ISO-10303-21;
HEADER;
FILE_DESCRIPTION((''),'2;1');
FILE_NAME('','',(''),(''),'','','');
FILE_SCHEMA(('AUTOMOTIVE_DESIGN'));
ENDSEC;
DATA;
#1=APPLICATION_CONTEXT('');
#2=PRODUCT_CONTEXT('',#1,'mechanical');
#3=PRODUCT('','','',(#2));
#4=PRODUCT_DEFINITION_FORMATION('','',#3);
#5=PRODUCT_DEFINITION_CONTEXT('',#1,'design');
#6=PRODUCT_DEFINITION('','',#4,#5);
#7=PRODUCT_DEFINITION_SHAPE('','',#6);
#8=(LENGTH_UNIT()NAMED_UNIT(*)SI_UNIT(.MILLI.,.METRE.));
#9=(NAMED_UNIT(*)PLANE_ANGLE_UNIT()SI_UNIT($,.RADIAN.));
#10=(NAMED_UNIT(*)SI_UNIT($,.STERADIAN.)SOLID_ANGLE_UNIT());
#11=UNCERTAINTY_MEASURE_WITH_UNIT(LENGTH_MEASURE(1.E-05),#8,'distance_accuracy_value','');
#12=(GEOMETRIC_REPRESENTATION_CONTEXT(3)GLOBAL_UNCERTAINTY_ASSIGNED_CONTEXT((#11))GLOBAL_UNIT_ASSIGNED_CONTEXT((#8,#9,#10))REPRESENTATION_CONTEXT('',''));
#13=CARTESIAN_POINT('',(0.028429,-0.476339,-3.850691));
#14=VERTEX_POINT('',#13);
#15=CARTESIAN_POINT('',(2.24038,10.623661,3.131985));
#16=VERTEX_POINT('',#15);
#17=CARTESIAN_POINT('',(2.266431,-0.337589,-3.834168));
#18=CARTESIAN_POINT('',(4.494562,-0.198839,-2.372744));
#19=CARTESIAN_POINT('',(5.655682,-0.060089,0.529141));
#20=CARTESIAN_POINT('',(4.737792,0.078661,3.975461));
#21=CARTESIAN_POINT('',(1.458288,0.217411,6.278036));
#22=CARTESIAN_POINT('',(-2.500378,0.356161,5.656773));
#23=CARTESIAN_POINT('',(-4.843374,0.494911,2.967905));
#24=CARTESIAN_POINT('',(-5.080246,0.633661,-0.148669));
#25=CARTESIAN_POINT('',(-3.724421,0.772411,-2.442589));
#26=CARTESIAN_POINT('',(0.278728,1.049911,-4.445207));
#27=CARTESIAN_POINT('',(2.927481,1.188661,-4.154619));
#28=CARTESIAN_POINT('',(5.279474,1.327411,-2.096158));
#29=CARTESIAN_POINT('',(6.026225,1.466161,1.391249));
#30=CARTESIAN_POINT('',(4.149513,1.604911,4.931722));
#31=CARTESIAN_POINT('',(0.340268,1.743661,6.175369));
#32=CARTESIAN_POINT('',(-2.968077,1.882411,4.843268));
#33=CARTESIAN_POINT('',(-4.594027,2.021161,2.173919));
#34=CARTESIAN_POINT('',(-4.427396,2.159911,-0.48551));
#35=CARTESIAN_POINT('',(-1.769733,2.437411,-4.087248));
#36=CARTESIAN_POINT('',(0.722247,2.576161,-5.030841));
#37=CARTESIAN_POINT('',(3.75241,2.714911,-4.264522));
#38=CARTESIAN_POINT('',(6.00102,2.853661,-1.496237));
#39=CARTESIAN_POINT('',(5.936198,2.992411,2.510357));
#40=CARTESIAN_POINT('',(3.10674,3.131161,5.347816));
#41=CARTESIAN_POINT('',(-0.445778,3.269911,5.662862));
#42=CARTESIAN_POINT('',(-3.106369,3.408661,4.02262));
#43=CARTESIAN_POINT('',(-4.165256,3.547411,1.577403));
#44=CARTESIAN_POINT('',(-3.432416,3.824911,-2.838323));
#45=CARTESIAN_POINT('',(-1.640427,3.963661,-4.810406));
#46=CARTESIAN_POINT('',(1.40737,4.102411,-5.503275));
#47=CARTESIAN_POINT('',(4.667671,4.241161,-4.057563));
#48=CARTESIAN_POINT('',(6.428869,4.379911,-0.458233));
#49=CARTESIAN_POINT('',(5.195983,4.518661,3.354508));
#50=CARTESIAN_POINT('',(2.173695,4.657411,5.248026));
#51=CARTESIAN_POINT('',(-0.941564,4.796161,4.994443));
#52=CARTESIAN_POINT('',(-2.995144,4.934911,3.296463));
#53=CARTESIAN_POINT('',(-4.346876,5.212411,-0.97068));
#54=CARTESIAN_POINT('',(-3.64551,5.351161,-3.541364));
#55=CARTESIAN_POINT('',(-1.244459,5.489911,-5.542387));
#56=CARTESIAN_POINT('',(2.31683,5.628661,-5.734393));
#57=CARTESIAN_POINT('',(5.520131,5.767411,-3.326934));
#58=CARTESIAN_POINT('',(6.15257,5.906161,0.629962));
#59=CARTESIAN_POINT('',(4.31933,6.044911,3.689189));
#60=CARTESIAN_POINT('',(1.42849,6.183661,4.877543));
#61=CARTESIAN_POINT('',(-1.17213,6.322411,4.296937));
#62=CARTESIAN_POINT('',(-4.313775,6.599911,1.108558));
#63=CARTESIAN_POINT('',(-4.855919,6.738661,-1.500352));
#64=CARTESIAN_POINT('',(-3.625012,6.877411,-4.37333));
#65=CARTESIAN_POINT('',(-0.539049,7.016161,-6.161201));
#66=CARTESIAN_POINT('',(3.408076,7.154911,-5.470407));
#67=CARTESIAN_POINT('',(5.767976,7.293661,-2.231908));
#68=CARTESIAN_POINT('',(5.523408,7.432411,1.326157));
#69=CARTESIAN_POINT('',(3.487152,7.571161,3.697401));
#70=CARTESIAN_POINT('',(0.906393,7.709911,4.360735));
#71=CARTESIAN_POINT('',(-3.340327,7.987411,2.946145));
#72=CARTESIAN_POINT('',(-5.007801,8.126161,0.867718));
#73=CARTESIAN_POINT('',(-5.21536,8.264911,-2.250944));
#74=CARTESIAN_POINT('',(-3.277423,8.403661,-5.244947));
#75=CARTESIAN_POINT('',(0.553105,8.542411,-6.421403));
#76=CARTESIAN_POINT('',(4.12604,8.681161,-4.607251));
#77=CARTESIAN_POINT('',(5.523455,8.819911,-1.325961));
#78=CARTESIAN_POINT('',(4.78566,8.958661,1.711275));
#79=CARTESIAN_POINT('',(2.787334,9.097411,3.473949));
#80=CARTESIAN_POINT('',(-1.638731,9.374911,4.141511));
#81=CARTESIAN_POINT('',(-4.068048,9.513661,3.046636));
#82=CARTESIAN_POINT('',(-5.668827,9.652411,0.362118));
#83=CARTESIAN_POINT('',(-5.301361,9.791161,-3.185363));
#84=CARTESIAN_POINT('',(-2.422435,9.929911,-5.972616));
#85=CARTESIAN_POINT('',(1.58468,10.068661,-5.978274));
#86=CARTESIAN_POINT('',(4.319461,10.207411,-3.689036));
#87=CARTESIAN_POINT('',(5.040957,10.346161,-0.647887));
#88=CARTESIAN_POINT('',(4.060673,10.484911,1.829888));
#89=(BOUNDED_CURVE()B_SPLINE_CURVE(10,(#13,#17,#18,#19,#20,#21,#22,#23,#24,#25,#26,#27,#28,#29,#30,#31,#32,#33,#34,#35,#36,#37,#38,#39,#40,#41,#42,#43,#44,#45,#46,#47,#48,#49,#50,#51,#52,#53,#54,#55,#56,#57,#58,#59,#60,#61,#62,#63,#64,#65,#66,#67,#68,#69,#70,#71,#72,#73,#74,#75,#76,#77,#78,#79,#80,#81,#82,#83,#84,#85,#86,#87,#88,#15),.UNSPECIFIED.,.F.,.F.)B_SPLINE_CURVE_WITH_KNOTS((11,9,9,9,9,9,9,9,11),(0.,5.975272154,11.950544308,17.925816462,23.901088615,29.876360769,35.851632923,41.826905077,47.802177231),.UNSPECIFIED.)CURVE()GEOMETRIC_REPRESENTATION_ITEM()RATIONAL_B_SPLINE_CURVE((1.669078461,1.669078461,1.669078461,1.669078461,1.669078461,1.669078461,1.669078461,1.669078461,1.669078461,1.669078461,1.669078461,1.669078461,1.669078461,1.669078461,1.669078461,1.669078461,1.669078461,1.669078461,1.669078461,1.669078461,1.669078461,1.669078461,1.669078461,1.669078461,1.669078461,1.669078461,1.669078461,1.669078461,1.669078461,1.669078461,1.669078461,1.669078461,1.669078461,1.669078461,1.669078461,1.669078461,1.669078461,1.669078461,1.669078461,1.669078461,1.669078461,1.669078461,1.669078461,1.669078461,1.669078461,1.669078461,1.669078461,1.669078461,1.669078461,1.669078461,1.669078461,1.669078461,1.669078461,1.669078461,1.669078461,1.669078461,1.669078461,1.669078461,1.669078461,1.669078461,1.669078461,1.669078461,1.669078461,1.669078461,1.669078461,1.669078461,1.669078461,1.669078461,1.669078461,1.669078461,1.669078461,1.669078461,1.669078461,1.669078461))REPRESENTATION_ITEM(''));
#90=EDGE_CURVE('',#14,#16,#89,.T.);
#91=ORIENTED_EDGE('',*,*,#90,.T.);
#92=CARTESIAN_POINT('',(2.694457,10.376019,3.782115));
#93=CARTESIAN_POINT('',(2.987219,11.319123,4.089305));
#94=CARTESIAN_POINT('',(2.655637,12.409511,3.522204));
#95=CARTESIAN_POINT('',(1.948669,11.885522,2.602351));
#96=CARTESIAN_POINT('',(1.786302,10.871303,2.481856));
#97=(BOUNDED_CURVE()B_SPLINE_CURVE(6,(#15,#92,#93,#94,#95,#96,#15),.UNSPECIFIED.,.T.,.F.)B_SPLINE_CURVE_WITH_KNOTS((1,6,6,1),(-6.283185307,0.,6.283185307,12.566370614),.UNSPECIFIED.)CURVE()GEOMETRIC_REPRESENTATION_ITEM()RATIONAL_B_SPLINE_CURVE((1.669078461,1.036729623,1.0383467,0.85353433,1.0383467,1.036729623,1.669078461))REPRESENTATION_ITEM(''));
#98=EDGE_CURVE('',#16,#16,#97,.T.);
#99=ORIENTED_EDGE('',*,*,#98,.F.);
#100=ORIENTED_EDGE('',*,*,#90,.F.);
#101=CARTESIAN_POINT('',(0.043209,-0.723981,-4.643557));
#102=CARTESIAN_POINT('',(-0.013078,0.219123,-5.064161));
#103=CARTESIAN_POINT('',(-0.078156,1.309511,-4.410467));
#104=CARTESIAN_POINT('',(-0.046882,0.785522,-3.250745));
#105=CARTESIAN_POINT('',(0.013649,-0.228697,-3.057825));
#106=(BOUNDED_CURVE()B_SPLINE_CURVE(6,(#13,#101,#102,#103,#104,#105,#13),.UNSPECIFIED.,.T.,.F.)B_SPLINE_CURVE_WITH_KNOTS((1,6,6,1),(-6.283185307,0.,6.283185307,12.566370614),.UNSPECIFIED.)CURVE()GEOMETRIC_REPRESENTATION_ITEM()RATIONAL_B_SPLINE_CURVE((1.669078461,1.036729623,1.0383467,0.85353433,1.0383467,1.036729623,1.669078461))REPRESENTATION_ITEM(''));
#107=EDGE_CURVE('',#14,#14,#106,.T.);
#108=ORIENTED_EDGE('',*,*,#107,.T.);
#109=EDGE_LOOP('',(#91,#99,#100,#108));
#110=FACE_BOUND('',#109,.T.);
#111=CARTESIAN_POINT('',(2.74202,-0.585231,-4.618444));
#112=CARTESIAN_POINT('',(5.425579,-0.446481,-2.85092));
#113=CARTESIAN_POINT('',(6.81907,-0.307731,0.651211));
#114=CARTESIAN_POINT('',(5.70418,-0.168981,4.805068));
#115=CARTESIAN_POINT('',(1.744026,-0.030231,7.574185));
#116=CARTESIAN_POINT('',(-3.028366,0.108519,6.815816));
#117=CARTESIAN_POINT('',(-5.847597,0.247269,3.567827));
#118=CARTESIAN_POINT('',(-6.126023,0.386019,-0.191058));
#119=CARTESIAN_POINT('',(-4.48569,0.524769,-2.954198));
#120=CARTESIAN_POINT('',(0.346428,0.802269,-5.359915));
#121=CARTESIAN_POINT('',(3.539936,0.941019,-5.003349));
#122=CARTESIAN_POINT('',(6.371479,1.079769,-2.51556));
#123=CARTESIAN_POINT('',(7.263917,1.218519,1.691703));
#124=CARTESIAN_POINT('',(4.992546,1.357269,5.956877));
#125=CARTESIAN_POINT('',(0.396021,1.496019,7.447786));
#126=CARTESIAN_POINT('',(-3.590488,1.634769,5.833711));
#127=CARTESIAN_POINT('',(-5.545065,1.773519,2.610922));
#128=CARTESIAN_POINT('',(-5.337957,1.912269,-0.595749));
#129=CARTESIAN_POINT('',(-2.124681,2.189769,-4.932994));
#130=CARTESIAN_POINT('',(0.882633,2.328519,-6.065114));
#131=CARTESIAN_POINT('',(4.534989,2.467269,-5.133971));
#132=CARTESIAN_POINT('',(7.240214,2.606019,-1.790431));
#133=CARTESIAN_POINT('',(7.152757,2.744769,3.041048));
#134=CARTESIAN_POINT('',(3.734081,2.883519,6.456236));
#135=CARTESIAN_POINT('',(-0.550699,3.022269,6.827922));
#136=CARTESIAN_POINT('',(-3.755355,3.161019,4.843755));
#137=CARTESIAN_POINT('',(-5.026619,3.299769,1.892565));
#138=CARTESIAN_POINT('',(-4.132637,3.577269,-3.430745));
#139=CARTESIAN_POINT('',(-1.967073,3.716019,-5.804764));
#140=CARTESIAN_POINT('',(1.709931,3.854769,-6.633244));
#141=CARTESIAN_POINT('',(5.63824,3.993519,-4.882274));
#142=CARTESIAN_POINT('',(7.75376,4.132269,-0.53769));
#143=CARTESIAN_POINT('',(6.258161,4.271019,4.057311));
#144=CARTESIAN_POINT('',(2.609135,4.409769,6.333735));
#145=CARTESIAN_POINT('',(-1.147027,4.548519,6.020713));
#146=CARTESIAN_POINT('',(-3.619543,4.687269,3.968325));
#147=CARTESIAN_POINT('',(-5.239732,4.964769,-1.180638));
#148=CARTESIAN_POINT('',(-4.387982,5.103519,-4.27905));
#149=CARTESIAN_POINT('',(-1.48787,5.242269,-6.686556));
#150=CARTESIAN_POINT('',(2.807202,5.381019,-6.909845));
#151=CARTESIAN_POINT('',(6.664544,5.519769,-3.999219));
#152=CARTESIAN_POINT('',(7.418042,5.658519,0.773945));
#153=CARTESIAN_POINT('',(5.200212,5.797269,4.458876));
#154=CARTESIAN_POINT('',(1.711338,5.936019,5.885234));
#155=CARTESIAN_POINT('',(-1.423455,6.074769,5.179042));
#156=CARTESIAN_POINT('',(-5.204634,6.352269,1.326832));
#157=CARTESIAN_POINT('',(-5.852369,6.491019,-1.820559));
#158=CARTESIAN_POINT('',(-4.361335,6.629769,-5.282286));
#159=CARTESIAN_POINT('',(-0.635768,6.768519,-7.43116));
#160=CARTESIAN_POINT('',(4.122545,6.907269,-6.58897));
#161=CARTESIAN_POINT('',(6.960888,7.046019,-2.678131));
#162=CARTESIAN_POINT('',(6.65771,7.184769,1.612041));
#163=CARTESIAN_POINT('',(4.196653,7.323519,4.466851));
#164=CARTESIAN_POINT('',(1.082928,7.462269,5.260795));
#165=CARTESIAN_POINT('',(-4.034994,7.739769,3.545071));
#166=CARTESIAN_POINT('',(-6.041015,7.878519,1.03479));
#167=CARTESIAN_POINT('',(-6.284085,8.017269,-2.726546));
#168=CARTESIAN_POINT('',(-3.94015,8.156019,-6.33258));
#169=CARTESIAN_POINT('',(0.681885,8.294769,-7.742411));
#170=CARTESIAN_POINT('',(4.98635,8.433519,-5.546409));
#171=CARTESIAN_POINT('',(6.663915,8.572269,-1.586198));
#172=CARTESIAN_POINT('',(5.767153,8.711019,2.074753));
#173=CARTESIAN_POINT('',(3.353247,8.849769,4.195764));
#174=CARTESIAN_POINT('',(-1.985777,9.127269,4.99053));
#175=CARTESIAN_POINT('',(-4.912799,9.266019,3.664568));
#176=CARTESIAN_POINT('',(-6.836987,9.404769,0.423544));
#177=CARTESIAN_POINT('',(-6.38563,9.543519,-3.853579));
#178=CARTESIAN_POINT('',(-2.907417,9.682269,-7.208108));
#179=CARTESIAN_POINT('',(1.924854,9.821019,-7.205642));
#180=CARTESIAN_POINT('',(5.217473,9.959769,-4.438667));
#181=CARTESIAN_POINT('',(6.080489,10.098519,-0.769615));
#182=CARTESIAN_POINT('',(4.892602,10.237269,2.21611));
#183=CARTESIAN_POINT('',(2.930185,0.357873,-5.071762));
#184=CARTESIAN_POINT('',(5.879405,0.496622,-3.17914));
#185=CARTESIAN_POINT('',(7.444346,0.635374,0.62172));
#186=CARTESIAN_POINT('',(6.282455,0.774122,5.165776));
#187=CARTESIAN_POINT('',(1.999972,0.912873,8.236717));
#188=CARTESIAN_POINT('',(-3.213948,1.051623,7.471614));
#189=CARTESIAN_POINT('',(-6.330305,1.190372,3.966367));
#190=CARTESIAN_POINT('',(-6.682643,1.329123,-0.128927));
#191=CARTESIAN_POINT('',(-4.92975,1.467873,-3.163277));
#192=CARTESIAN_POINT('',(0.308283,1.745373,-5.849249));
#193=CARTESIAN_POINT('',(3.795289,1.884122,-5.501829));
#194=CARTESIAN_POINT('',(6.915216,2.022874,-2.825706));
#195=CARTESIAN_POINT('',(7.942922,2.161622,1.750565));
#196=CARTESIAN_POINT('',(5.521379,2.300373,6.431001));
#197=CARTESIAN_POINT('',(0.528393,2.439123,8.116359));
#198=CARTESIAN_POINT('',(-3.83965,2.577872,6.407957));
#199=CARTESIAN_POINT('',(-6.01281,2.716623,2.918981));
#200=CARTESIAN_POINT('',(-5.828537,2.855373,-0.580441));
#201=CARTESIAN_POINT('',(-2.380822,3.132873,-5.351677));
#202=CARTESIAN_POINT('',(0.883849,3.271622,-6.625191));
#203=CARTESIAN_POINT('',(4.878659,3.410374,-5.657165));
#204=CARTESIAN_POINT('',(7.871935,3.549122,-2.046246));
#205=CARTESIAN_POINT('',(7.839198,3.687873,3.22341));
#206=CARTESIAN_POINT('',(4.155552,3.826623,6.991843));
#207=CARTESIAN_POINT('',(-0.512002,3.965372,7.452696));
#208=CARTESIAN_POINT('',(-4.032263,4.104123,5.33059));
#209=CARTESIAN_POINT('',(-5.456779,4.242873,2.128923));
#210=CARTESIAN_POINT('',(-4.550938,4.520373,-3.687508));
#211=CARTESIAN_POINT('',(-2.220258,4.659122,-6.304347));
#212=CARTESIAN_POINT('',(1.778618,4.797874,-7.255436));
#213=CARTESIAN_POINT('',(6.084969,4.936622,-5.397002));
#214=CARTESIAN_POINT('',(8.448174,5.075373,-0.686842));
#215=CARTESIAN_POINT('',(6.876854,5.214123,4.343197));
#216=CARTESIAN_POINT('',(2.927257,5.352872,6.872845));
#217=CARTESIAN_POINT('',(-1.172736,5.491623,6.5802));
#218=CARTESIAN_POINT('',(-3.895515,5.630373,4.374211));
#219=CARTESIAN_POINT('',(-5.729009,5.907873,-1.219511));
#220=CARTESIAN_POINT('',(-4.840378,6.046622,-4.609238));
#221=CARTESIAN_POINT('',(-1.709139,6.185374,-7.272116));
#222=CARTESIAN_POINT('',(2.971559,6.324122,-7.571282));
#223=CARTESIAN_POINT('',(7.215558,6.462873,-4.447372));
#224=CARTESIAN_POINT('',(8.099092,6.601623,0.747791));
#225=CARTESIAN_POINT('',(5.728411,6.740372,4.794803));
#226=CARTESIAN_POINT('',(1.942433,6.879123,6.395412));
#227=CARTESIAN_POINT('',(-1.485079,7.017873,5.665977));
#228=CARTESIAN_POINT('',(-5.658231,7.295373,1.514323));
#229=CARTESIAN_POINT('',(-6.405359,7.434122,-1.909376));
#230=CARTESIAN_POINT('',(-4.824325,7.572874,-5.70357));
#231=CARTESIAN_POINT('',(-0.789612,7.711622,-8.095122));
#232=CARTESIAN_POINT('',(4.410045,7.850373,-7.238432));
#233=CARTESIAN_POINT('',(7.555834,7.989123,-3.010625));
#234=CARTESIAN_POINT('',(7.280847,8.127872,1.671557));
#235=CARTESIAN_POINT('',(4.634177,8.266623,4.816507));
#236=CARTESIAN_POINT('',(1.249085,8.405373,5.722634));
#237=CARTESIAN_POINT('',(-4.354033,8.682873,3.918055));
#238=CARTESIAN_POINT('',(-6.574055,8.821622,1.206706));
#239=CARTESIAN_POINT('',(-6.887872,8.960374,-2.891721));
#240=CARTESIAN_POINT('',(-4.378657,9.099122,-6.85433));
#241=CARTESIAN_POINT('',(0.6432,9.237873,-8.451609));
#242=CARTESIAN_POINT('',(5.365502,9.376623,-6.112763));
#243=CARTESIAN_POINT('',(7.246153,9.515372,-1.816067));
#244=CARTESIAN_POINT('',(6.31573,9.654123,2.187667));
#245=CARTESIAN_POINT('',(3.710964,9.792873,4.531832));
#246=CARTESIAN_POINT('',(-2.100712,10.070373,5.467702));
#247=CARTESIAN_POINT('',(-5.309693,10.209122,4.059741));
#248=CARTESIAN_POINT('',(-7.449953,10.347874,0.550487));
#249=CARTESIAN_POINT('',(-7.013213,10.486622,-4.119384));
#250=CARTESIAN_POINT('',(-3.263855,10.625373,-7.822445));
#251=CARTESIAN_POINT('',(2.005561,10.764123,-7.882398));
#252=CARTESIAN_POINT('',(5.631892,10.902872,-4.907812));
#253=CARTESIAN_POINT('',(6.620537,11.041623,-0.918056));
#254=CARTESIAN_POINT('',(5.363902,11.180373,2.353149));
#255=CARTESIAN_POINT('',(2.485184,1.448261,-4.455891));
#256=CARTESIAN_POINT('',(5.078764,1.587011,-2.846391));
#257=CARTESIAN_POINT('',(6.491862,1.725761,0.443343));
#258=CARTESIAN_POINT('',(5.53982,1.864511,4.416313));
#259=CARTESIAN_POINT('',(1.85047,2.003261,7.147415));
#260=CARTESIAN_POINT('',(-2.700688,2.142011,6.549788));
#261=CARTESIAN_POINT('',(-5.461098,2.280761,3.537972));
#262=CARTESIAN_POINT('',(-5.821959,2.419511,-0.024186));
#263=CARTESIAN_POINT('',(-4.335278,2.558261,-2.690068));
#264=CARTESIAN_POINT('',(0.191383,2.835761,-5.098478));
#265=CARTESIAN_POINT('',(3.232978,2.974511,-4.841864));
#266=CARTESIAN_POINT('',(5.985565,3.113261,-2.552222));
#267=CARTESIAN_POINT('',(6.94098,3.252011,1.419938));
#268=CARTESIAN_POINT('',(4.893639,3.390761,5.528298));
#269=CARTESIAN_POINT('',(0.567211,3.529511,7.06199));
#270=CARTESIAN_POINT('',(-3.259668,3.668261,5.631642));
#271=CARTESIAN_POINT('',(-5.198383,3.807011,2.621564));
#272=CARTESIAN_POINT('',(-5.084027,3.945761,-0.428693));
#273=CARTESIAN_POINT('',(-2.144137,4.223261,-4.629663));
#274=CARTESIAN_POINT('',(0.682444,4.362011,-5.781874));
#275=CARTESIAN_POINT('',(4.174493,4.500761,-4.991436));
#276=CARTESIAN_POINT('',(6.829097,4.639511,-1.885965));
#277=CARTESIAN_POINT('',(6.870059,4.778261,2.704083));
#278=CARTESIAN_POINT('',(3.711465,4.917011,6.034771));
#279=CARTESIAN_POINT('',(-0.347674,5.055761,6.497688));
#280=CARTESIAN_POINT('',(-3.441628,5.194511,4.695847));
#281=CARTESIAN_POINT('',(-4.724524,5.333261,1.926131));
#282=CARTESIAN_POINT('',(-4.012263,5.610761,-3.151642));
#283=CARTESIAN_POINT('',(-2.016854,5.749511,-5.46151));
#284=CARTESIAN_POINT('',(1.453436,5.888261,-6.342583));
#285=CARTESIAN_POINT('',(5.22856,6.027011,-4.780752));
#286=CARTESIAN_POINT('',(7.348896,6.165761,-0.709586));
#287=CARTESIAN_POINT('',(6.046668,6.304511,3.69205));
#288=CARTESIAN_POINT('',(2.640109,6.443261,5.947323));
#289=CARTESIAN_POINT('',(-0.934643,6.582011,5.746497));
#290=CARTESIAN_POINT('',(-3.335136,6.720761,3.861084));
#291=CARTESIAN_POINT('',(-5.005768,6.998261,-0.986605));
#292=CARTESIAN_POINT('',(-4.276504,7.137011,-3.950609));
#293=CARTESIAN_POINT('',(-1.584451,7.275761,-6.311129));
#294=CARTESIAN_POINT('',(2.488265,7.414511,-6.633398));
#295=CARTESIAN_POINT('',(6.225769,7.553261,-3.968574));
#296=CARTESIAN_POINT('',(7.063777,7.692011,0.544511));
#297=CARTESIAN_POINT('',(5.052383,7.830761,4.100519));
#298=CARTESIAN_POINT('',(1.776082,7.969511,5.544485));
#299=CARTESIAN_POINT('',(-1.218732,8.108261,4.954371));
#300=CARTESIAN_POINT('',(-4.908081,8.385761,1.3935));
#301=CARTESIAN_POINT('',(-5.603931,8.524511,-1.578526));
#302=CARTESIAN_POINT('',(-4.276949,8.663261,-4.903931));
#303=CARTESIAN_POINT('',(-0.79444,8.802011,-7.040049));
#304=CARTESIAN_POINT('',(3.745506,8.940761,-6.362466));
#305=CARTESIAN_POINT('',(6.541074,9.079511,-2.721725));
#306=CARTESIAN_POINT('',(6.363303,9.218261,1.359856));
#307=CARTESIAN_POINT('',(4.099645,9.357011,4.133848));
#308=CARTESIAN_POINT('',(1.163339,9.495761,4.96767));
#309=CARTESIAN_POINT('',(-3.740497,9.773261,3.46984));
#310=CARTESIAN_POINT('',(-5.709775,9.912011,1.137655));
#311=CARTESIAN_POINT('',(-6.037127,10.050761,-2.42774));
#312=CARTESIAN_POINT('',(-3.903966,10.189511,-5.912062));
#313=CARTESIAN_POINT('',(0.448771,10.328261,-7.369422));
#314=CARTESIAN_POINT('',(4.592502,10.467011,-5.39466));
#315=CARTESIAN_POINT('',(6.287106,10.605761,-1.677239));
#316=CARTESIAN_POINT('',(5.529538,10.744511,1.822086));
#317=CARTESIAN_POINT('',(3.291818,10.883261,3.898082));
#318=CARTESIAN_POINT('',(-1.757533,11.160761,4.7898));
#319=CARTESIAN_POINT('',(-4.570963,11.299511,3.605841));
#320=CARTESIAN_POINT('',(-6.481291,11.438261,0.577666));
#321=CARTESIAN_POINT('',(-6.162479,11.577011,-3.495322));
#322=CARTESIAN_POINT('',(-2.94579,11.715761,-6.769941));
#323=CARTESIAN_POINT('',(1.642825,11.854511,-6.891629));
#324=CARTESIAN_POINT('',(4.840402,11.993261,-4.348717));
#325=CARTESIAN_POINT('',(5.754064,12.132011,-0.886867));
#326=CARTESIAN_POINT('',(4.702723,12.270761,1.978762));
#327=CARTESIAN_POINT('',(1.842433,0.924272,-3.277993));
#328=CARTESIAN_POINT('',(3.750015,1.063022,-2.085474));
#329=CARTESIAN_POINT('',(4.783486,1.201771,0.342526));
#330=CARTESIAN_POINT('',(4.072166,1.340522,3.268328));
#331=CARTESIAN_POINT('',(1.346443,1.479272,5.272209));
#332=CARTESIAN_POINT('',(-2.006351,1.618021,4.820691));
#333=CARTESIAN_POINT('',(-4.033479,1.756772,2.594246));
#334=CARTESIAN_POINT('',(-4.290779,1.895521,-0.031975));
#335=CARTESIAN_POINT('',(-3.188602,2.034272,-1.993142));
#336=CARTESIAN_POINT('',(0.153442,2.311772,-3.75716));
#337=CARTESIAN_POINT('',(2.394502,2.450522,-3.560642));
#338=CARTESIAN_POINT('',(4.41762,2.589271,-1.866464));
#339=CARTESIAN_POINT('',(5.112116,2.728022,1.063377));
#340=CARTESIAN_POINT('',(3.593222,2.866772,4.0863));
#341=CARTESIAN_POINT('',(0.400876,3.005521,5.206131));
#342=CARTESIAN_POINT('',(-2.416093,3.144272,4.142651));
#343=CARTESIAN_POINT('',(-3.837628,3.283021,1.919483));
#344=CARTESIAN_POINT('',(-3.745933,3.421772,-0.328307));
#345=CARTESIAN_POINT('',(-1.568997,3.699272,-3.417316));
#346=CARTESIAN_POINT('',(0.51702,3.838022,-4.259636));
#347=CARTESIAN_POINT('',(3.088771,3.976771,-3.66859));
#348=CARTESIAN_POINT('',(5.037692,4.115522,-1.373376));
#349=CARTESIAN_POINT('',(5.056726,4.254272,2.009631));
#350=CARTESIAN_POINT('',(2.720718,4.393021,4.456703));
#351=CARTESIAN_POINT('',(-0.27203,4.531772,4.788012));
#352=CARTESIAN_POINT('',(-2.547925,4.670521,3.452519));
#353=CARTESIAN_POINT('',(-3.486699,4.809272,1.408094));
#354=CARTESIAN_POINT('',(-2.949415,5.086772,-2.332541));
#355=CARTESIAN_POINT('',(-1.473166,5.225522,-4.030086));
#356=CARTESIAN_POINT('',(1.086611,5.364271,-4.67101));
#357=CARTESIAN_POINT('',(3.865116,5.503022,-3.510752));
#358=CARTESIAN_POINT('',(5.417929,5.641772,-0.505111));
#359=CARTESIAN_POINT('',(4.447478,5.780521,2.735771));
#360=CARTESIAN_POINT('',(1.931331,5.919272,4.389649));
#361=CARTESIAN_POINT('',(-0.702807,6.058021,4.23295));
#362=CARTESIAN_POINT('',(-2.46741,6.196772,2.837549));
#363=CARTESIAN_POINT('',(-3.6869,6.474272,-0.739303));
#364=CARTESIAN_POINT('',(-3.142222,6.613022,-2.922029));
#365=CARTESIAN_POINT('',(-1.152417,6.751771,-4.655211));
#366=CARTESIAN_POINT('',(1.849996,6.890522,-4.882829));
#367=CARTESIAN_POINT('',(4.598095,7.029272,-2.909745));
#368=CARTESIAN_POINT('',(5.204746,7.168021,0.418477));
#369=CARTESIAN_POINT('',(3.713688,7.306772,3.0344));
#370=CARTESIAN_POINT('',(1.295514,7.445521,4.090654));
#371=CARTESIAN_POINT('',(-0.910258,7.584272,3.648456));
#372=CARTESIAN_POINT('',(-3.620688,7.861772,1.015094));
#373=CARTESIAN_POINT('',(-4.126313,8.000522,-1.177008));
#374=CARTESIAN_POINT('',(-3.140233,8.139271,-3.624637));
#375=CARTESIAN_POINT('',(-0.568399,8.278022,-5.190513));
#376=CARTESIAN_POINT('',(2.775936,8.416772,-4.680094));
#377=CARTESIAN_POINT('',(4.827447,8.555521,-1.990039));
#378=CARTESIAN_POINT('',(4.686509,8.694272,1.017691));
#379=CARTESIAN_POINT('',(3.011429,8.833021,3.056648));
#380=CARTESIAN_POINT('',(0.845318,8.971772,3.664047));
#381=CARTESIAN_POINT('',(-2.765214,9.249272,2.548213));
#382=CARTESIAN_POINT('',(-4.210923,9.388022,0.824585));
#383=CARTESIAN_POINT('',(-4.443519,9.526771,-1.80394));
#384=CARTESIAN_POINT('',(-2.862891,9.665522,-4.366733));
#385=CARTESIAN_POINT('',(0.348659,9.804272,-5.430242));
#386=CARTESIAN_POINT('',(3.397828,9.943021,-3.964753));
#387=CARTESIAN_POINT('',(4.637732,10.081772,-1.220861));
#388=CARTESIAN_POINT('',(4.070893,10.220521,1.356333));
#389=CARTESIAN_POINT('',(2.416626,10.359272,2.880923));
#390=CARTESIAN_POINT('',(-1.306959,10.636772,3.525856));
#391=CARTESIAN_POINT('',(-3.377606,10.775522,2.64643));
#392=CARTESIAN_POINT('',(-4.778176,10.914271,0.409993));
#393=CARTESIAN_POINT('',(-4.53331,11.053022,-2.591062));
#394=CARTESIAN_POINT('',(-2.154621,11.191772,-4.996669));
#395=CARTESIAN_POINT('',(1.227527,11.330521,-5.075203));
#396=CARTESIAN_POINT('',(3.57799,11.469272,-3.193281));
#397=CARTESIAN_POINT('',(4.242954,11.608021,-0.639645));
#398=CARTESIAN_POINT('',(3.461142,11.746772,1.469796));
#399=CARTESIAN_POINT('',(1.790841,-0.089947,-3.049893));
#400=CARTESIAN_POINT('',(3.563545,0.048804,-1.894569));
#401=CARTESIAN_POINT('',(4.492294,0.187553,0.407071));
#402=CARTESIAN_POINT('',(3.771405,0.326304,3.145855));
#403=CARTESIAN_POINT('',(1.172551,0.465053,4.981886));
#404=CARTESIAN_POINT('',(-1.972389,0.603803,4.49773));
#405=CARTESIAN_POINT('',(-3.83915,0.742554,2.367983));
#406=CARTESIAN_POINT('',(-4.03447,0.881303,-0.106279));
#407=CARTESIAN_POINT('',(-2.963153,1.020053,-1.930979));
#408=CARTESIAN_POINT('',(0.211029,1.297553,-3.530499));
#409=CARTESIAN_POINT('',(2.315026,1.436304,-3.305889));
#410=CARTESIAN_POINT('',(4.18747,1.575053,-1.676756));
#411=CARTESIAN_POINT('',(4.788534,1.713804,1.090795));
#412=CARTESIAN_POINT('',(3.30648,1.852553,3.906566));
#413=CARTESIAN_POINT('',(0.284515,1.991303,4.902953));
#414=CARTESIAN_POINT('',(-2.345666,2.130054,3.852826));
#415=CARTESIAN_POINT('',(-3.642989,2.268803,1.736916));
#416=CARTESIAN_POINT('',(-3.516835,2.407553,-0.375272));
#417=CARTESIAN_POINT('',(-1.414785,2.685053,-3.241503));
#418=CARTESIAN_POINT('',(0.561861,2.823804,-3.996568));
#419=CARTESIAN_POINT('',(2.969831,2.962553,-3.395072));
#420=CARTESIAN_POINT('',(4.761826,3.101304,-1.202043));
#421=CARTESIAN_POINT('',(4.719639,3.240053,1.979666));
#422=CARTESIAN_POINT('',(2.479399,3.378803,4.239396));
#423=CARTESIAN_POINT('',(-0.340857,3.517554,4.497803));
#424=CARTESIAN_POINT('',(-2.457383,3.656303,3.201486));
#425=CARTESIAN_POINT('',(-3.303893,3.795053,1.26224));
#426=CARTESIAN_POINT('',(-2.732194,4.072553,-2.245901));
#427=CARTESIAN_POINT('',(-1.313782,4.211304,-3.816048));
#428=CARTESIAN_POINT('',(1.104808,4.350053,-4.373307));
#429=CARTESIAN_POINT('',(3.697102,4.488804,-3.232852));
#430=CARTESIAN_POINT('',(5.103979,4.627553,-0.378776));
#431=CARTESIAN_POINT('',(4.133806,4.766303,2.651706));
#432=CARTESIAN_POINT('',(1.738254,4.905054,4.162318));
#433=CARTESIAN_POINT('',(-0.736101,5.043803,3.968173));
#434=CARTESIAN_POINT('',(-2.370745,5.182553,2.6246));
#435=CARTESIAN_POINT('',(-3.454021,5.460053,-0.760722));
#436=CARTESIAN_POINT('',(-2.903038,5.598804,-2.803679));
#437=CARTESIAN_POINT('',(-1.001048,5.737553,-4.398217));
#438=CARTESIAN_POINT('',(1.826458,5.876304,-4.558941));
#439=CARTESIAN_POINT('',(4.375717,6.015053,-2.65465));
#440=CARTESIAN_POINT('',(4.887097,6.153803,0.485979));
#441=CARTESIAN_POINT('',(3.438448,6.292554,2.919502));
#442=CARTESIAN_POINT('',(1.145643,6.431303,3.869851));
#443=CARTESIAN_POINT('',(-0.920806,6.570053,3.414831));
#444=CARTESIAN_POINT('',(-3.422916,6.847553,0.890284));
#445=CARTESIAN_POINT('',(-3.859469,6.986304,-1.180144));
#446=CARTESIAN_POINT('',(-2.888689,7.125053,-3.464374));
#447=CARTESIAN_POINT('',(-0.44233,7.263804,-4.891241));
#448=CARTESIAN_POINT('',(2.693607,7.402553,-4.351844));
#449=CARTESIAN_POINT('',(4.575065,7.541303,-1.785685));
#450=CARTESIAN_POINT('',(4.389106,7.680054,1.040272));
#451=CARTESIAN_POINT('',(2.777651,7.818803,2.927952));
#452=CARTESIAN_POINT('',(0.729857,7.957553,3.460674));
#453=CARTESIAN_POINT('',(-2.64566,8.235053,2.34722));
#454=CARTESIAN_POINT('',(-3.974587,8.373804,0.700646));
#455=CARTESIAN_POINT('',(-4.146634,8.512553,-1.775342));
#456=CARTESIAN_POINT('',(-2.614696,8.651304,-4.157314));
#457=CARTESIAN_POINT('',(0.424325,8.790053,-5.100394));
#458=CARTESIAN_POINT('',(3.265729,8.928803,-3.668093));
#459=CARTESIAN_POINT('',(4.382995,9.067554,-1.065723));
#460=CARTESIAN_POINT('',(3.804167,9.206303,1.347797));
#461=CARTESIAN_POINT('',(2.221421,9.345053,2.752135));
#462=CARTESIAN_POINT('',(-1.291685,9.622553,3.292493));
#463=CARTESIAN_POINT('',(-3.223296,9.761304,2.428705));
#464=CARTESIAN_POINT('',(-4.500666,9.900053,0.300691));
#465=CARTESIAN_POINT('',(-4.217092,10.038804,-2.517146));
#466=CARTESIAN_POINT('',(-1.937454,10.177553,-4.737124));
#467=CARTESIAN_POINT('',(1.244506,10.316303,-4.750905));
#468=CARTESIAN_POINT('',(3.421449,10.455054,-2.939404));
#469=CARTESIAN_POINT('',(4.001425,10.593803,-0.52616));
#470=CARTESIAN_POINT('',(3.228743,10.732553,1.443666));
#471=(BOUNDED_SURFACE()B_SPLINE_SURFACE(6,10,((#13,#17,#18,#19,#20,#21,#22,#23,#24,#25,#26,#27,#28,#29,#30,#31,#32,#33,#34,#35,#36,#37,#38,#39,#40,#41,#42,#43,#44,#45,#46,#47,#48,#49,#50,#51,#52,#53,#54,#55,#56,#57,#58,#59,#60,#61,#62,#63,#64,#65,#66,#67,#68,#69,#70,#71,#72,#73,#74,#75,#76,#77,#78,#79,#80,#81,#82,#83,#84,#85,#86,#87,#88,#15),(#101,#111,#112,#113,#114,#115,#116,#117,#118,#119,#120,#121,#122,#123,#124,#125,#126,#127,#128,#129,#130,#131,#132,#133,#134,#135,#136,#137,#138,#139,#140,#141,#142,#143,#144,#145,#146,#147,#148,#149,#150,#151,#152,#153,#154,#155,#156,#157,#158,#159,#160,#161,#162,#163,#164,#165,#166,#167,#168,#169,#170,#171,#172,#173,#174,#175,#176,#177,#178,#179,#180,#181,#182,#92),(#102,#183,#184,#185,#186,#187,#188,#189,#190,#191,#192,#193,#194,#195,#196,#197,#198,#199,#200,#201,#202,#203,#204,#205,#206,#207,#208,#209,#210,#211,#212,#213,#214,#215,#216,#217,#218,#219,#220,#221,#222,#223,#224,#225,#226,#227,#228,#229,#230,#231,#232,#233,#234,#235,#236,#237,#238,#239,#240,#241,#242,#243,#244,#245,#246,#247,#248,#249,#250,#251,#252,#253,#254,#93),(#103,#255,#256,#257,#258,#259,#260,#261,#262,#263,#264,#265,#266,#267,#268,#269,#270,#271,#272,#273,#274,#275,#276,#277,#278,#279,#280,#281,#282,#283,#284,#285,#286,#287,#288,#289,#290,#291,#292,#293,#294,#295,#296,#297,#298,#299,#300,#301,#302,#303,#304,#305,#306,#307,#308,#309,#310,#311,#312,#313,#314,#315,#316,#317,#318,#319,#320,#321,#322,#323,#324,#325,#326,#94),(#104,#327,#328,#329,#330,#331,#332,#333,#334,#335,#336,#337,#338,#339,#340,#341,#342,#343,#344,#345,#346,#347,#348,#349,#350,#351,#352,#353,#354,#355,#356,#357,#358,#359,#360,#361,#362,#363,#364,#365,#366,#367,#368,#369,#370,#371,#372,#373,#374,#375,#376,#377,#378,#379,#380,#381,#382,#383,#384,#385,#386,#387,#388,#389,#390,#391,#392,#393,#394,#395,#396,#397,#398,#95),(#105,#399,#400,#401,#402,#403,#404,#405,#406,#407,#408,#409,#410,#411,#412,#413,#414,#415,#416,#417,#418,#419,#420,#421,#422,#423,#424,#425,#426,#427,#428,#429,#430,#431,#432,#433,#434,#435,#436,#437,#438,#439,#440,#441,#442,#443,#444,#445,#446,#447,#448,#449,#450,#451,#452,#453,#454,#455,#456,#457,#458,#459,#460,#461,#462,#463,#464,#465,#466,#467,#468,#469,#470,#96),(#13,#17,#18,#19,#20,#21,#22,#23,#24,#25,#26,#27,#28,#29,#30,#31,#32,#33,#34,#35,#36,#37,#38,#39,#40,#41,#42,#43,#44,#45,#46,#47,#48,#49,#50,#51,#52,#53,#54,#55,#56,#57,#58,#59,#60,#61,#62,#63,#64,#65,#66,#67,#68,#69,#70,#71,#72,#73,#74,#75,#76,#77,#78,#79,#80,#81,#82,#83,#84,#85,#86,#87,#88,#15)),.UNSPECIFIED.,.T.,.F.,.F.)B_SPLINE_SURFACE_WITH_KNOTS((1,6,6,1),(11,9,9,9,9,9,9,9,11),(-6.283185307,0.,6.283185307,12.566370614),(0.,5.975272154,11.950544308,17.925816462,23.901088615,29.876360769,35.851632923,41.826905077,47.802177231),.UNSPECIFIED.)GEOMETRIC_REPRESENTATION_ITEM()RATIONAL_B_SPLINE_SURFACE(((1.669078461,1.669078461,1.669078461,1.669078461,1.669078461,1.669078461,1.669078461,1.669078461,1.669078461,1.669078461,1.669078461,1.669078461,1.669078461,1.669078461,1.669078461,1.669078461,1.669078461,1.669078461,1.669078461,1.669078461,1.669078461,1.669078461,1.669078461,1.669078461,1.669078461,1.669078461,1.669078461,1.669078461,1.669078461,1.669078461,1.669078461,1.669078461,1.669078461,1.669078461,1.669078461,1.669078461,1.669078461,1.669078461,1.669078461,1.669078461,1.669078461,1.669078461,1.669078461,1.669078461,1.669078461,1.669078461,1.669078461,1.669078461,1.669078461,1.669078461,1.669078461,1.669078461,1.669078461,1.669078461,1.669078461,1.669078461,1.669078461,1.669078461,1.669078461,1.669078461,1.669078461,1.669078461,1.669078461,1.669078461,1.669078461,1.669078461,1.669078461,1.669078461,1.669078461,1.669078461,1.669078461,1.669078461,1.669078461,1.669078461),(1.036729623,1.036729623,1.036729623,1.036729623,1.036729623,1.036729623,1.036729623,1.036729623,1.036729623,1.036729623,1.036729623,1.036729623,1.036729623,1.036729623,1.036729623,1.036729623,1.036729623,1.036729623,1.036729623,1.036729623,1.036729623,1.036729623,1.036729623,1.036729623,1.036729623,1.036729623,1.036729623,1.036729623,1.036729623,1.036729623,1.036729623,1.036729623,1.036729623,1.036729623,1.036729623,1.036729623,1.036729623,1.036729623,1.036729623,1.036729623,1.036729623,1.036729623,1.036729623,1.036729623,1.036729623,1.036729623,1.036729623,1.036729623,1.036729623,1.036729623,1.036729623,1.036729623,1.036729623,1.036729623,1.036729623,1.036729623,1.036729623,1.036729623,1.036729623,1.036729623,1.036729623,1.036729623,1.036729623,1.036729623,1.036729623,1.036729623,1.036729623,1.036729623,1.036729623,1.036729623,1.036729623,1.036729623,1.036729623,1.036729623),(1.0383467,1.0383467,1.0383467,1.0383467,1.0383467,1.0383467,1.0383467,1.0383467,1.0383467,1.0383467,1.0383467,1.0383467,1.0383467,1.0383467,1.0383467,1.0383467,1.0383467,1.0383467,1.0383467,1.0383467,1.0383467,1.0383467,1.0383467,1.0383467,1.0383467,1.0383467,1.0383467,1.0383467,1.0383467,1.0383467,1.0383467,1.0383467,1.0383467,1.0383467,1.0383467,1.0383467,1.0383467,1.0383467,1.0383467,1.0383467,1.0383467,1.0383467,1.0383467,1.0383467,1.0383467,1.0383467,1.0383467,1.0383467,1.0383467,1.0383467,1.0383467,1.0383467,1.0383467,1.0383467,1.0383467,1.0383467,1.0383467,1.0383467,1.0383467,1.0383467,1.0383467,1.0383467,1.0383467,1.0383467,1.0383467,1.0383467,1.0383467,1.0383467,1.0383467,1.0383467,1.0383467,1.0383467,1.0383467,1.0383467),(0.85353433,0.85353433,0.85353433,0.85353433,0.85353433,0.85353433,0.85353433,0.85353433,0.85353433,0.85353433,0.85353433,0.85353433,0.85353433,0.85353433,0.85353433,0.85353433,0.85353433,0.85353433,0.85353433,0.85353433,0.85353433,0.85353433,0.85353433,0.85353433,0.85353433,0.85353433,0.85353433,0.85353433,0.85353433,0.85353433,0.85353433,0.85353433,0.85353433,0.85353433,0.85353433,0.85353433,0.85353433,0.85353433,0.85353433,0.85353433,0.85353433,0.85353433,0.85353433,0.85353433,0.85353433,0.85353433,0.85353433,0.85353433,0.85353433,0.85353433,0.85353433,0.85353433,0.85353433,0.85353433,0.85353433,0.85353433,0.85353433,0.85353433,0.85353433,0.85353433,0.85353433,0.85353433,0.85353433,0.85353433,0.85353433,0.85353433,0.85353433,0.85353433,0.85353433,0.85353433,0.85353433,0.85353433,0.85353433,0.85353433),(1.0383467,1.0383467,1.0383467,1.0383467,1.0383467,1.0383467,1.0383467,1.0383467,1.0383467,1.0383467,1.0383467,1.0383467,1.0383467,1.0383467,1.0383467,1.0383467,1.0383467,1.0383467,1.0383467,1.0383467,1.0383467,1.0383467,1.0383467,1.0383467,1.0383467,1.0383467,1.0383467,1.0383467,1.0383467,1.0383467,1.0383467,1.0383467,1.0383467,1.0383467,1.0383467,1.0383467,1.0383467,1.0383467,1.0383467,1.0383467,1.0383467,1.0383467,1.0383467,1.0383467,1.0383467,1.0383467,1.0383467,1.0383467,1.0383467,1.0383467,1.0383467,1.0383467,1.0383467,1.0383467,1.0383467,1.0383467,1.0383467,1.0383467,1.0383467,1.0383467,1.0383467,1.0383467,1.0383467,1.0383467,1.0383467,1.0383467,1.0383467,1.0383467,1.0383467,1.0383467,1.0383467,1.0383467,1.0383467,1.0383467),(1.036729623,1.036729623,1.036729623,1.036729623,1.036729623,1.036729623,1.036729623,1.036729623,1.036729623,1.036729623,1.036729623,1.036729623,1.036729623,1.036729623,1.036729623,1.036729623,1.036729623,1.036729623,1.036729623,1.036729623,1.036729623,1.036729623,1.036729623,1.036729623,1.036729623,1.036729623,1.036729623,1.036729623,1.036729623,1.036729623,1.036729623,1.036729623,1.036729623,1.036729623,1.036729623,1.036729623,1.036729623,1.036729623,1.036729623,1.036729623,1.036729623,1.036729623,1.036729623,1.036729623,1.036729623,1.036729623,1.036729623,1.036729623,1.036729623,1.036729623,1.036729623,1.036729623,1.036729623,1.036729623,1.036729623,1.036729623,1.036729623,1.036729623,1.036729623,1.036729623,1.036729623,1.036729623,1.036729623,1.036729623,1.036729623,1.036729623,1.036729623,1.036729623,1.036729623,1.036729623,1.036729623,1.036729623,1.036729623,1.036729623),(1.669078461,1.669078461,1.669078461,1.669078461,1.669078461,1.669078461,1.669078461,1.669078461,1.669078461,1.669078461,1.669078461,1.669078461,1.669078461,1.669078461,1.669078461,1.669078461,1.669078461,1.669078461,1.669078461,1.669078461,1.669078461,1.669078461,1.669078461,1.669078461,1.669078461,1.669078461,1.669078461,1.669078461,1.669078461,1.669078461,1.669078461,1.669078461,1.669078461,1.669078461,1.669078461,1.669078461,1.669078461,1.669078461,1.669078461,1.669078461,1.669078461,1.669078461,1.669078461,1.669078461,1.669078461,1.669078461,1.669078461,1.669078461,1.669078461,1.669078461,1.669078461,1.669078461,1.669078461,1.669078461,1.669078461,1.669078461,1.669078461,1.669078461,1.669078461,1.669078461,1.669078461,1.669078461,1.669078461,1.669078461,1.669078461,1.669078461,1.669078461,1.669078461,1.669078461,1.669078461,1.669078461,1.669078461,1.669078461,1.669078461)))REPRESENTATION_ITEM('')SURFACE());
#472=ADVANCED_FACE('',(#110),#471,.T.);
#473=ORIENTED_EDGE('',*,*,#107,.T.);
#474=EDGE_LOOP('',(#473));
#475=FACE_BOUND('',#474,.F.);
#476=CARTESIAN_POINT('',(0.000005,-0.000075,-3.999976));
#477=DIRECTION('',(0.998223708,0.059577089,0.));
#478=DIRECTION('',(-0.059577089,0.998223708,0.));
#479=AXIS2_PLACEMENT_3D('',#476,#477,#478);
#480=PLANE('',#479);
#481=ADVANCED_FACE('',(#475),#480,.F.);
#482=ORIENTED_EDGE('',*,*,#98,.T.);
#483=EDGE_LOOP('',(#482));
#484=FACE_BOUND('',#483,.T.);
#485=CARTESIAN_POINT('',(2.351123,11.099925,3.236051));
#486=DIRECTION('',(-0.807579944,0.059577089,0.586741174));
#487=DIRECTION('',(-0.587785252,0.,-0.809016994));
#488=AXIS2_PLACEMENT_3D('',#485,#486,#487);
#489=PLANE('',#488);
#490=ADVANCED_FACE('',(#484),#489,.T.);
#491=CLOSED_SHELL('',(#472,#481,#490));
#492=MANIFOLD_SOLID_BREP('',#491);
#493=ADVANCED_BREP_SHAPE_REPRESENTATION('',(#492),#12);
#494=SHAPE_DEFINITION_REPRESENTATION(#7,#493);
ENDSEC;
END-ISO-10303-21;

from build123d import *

# Parameters (mm, degrees)
SWEEP2_PITCH       = 1.5
SWEEP2_HEIGHT      = 11.1
SWEEP2_RADIUS      = 4
SWEEP2_START_ANGLE = -180
SKETCH2_R          = 0.5


with BuildPart() as part:
    # Sweep2: sweep along a helix
    with BuildLine() as sweep2_path:
        add(Helix(SWEEP2_PITCH, SWEEP2_HEIGHT, SWEEP2_RADIUS, center=(0, 0, 0), direction=(0, 1, 0), lefthand=True, mode=Mode.PRIVATE).rotate(Axis((0, 0, 0), (0, 1, 0)), SWEEP2_START_ANGLE))
    # Sketch2 → Sweep2 (sweep)
    with BuildSketch(Plane(origin=(2.351141009, 11.1, 3.236067978), x_dir=(-0.22152261206394744, -0.9526776602184286, -0.20816581867613704), z_dir=(-0.8075799436564887, 0.059577089017502076, 0.5867411738304917))):
        Circle(SKETCH2_R)
    sweep(path=sweep2_path.line, is_frenet=True)


solid = part.part
